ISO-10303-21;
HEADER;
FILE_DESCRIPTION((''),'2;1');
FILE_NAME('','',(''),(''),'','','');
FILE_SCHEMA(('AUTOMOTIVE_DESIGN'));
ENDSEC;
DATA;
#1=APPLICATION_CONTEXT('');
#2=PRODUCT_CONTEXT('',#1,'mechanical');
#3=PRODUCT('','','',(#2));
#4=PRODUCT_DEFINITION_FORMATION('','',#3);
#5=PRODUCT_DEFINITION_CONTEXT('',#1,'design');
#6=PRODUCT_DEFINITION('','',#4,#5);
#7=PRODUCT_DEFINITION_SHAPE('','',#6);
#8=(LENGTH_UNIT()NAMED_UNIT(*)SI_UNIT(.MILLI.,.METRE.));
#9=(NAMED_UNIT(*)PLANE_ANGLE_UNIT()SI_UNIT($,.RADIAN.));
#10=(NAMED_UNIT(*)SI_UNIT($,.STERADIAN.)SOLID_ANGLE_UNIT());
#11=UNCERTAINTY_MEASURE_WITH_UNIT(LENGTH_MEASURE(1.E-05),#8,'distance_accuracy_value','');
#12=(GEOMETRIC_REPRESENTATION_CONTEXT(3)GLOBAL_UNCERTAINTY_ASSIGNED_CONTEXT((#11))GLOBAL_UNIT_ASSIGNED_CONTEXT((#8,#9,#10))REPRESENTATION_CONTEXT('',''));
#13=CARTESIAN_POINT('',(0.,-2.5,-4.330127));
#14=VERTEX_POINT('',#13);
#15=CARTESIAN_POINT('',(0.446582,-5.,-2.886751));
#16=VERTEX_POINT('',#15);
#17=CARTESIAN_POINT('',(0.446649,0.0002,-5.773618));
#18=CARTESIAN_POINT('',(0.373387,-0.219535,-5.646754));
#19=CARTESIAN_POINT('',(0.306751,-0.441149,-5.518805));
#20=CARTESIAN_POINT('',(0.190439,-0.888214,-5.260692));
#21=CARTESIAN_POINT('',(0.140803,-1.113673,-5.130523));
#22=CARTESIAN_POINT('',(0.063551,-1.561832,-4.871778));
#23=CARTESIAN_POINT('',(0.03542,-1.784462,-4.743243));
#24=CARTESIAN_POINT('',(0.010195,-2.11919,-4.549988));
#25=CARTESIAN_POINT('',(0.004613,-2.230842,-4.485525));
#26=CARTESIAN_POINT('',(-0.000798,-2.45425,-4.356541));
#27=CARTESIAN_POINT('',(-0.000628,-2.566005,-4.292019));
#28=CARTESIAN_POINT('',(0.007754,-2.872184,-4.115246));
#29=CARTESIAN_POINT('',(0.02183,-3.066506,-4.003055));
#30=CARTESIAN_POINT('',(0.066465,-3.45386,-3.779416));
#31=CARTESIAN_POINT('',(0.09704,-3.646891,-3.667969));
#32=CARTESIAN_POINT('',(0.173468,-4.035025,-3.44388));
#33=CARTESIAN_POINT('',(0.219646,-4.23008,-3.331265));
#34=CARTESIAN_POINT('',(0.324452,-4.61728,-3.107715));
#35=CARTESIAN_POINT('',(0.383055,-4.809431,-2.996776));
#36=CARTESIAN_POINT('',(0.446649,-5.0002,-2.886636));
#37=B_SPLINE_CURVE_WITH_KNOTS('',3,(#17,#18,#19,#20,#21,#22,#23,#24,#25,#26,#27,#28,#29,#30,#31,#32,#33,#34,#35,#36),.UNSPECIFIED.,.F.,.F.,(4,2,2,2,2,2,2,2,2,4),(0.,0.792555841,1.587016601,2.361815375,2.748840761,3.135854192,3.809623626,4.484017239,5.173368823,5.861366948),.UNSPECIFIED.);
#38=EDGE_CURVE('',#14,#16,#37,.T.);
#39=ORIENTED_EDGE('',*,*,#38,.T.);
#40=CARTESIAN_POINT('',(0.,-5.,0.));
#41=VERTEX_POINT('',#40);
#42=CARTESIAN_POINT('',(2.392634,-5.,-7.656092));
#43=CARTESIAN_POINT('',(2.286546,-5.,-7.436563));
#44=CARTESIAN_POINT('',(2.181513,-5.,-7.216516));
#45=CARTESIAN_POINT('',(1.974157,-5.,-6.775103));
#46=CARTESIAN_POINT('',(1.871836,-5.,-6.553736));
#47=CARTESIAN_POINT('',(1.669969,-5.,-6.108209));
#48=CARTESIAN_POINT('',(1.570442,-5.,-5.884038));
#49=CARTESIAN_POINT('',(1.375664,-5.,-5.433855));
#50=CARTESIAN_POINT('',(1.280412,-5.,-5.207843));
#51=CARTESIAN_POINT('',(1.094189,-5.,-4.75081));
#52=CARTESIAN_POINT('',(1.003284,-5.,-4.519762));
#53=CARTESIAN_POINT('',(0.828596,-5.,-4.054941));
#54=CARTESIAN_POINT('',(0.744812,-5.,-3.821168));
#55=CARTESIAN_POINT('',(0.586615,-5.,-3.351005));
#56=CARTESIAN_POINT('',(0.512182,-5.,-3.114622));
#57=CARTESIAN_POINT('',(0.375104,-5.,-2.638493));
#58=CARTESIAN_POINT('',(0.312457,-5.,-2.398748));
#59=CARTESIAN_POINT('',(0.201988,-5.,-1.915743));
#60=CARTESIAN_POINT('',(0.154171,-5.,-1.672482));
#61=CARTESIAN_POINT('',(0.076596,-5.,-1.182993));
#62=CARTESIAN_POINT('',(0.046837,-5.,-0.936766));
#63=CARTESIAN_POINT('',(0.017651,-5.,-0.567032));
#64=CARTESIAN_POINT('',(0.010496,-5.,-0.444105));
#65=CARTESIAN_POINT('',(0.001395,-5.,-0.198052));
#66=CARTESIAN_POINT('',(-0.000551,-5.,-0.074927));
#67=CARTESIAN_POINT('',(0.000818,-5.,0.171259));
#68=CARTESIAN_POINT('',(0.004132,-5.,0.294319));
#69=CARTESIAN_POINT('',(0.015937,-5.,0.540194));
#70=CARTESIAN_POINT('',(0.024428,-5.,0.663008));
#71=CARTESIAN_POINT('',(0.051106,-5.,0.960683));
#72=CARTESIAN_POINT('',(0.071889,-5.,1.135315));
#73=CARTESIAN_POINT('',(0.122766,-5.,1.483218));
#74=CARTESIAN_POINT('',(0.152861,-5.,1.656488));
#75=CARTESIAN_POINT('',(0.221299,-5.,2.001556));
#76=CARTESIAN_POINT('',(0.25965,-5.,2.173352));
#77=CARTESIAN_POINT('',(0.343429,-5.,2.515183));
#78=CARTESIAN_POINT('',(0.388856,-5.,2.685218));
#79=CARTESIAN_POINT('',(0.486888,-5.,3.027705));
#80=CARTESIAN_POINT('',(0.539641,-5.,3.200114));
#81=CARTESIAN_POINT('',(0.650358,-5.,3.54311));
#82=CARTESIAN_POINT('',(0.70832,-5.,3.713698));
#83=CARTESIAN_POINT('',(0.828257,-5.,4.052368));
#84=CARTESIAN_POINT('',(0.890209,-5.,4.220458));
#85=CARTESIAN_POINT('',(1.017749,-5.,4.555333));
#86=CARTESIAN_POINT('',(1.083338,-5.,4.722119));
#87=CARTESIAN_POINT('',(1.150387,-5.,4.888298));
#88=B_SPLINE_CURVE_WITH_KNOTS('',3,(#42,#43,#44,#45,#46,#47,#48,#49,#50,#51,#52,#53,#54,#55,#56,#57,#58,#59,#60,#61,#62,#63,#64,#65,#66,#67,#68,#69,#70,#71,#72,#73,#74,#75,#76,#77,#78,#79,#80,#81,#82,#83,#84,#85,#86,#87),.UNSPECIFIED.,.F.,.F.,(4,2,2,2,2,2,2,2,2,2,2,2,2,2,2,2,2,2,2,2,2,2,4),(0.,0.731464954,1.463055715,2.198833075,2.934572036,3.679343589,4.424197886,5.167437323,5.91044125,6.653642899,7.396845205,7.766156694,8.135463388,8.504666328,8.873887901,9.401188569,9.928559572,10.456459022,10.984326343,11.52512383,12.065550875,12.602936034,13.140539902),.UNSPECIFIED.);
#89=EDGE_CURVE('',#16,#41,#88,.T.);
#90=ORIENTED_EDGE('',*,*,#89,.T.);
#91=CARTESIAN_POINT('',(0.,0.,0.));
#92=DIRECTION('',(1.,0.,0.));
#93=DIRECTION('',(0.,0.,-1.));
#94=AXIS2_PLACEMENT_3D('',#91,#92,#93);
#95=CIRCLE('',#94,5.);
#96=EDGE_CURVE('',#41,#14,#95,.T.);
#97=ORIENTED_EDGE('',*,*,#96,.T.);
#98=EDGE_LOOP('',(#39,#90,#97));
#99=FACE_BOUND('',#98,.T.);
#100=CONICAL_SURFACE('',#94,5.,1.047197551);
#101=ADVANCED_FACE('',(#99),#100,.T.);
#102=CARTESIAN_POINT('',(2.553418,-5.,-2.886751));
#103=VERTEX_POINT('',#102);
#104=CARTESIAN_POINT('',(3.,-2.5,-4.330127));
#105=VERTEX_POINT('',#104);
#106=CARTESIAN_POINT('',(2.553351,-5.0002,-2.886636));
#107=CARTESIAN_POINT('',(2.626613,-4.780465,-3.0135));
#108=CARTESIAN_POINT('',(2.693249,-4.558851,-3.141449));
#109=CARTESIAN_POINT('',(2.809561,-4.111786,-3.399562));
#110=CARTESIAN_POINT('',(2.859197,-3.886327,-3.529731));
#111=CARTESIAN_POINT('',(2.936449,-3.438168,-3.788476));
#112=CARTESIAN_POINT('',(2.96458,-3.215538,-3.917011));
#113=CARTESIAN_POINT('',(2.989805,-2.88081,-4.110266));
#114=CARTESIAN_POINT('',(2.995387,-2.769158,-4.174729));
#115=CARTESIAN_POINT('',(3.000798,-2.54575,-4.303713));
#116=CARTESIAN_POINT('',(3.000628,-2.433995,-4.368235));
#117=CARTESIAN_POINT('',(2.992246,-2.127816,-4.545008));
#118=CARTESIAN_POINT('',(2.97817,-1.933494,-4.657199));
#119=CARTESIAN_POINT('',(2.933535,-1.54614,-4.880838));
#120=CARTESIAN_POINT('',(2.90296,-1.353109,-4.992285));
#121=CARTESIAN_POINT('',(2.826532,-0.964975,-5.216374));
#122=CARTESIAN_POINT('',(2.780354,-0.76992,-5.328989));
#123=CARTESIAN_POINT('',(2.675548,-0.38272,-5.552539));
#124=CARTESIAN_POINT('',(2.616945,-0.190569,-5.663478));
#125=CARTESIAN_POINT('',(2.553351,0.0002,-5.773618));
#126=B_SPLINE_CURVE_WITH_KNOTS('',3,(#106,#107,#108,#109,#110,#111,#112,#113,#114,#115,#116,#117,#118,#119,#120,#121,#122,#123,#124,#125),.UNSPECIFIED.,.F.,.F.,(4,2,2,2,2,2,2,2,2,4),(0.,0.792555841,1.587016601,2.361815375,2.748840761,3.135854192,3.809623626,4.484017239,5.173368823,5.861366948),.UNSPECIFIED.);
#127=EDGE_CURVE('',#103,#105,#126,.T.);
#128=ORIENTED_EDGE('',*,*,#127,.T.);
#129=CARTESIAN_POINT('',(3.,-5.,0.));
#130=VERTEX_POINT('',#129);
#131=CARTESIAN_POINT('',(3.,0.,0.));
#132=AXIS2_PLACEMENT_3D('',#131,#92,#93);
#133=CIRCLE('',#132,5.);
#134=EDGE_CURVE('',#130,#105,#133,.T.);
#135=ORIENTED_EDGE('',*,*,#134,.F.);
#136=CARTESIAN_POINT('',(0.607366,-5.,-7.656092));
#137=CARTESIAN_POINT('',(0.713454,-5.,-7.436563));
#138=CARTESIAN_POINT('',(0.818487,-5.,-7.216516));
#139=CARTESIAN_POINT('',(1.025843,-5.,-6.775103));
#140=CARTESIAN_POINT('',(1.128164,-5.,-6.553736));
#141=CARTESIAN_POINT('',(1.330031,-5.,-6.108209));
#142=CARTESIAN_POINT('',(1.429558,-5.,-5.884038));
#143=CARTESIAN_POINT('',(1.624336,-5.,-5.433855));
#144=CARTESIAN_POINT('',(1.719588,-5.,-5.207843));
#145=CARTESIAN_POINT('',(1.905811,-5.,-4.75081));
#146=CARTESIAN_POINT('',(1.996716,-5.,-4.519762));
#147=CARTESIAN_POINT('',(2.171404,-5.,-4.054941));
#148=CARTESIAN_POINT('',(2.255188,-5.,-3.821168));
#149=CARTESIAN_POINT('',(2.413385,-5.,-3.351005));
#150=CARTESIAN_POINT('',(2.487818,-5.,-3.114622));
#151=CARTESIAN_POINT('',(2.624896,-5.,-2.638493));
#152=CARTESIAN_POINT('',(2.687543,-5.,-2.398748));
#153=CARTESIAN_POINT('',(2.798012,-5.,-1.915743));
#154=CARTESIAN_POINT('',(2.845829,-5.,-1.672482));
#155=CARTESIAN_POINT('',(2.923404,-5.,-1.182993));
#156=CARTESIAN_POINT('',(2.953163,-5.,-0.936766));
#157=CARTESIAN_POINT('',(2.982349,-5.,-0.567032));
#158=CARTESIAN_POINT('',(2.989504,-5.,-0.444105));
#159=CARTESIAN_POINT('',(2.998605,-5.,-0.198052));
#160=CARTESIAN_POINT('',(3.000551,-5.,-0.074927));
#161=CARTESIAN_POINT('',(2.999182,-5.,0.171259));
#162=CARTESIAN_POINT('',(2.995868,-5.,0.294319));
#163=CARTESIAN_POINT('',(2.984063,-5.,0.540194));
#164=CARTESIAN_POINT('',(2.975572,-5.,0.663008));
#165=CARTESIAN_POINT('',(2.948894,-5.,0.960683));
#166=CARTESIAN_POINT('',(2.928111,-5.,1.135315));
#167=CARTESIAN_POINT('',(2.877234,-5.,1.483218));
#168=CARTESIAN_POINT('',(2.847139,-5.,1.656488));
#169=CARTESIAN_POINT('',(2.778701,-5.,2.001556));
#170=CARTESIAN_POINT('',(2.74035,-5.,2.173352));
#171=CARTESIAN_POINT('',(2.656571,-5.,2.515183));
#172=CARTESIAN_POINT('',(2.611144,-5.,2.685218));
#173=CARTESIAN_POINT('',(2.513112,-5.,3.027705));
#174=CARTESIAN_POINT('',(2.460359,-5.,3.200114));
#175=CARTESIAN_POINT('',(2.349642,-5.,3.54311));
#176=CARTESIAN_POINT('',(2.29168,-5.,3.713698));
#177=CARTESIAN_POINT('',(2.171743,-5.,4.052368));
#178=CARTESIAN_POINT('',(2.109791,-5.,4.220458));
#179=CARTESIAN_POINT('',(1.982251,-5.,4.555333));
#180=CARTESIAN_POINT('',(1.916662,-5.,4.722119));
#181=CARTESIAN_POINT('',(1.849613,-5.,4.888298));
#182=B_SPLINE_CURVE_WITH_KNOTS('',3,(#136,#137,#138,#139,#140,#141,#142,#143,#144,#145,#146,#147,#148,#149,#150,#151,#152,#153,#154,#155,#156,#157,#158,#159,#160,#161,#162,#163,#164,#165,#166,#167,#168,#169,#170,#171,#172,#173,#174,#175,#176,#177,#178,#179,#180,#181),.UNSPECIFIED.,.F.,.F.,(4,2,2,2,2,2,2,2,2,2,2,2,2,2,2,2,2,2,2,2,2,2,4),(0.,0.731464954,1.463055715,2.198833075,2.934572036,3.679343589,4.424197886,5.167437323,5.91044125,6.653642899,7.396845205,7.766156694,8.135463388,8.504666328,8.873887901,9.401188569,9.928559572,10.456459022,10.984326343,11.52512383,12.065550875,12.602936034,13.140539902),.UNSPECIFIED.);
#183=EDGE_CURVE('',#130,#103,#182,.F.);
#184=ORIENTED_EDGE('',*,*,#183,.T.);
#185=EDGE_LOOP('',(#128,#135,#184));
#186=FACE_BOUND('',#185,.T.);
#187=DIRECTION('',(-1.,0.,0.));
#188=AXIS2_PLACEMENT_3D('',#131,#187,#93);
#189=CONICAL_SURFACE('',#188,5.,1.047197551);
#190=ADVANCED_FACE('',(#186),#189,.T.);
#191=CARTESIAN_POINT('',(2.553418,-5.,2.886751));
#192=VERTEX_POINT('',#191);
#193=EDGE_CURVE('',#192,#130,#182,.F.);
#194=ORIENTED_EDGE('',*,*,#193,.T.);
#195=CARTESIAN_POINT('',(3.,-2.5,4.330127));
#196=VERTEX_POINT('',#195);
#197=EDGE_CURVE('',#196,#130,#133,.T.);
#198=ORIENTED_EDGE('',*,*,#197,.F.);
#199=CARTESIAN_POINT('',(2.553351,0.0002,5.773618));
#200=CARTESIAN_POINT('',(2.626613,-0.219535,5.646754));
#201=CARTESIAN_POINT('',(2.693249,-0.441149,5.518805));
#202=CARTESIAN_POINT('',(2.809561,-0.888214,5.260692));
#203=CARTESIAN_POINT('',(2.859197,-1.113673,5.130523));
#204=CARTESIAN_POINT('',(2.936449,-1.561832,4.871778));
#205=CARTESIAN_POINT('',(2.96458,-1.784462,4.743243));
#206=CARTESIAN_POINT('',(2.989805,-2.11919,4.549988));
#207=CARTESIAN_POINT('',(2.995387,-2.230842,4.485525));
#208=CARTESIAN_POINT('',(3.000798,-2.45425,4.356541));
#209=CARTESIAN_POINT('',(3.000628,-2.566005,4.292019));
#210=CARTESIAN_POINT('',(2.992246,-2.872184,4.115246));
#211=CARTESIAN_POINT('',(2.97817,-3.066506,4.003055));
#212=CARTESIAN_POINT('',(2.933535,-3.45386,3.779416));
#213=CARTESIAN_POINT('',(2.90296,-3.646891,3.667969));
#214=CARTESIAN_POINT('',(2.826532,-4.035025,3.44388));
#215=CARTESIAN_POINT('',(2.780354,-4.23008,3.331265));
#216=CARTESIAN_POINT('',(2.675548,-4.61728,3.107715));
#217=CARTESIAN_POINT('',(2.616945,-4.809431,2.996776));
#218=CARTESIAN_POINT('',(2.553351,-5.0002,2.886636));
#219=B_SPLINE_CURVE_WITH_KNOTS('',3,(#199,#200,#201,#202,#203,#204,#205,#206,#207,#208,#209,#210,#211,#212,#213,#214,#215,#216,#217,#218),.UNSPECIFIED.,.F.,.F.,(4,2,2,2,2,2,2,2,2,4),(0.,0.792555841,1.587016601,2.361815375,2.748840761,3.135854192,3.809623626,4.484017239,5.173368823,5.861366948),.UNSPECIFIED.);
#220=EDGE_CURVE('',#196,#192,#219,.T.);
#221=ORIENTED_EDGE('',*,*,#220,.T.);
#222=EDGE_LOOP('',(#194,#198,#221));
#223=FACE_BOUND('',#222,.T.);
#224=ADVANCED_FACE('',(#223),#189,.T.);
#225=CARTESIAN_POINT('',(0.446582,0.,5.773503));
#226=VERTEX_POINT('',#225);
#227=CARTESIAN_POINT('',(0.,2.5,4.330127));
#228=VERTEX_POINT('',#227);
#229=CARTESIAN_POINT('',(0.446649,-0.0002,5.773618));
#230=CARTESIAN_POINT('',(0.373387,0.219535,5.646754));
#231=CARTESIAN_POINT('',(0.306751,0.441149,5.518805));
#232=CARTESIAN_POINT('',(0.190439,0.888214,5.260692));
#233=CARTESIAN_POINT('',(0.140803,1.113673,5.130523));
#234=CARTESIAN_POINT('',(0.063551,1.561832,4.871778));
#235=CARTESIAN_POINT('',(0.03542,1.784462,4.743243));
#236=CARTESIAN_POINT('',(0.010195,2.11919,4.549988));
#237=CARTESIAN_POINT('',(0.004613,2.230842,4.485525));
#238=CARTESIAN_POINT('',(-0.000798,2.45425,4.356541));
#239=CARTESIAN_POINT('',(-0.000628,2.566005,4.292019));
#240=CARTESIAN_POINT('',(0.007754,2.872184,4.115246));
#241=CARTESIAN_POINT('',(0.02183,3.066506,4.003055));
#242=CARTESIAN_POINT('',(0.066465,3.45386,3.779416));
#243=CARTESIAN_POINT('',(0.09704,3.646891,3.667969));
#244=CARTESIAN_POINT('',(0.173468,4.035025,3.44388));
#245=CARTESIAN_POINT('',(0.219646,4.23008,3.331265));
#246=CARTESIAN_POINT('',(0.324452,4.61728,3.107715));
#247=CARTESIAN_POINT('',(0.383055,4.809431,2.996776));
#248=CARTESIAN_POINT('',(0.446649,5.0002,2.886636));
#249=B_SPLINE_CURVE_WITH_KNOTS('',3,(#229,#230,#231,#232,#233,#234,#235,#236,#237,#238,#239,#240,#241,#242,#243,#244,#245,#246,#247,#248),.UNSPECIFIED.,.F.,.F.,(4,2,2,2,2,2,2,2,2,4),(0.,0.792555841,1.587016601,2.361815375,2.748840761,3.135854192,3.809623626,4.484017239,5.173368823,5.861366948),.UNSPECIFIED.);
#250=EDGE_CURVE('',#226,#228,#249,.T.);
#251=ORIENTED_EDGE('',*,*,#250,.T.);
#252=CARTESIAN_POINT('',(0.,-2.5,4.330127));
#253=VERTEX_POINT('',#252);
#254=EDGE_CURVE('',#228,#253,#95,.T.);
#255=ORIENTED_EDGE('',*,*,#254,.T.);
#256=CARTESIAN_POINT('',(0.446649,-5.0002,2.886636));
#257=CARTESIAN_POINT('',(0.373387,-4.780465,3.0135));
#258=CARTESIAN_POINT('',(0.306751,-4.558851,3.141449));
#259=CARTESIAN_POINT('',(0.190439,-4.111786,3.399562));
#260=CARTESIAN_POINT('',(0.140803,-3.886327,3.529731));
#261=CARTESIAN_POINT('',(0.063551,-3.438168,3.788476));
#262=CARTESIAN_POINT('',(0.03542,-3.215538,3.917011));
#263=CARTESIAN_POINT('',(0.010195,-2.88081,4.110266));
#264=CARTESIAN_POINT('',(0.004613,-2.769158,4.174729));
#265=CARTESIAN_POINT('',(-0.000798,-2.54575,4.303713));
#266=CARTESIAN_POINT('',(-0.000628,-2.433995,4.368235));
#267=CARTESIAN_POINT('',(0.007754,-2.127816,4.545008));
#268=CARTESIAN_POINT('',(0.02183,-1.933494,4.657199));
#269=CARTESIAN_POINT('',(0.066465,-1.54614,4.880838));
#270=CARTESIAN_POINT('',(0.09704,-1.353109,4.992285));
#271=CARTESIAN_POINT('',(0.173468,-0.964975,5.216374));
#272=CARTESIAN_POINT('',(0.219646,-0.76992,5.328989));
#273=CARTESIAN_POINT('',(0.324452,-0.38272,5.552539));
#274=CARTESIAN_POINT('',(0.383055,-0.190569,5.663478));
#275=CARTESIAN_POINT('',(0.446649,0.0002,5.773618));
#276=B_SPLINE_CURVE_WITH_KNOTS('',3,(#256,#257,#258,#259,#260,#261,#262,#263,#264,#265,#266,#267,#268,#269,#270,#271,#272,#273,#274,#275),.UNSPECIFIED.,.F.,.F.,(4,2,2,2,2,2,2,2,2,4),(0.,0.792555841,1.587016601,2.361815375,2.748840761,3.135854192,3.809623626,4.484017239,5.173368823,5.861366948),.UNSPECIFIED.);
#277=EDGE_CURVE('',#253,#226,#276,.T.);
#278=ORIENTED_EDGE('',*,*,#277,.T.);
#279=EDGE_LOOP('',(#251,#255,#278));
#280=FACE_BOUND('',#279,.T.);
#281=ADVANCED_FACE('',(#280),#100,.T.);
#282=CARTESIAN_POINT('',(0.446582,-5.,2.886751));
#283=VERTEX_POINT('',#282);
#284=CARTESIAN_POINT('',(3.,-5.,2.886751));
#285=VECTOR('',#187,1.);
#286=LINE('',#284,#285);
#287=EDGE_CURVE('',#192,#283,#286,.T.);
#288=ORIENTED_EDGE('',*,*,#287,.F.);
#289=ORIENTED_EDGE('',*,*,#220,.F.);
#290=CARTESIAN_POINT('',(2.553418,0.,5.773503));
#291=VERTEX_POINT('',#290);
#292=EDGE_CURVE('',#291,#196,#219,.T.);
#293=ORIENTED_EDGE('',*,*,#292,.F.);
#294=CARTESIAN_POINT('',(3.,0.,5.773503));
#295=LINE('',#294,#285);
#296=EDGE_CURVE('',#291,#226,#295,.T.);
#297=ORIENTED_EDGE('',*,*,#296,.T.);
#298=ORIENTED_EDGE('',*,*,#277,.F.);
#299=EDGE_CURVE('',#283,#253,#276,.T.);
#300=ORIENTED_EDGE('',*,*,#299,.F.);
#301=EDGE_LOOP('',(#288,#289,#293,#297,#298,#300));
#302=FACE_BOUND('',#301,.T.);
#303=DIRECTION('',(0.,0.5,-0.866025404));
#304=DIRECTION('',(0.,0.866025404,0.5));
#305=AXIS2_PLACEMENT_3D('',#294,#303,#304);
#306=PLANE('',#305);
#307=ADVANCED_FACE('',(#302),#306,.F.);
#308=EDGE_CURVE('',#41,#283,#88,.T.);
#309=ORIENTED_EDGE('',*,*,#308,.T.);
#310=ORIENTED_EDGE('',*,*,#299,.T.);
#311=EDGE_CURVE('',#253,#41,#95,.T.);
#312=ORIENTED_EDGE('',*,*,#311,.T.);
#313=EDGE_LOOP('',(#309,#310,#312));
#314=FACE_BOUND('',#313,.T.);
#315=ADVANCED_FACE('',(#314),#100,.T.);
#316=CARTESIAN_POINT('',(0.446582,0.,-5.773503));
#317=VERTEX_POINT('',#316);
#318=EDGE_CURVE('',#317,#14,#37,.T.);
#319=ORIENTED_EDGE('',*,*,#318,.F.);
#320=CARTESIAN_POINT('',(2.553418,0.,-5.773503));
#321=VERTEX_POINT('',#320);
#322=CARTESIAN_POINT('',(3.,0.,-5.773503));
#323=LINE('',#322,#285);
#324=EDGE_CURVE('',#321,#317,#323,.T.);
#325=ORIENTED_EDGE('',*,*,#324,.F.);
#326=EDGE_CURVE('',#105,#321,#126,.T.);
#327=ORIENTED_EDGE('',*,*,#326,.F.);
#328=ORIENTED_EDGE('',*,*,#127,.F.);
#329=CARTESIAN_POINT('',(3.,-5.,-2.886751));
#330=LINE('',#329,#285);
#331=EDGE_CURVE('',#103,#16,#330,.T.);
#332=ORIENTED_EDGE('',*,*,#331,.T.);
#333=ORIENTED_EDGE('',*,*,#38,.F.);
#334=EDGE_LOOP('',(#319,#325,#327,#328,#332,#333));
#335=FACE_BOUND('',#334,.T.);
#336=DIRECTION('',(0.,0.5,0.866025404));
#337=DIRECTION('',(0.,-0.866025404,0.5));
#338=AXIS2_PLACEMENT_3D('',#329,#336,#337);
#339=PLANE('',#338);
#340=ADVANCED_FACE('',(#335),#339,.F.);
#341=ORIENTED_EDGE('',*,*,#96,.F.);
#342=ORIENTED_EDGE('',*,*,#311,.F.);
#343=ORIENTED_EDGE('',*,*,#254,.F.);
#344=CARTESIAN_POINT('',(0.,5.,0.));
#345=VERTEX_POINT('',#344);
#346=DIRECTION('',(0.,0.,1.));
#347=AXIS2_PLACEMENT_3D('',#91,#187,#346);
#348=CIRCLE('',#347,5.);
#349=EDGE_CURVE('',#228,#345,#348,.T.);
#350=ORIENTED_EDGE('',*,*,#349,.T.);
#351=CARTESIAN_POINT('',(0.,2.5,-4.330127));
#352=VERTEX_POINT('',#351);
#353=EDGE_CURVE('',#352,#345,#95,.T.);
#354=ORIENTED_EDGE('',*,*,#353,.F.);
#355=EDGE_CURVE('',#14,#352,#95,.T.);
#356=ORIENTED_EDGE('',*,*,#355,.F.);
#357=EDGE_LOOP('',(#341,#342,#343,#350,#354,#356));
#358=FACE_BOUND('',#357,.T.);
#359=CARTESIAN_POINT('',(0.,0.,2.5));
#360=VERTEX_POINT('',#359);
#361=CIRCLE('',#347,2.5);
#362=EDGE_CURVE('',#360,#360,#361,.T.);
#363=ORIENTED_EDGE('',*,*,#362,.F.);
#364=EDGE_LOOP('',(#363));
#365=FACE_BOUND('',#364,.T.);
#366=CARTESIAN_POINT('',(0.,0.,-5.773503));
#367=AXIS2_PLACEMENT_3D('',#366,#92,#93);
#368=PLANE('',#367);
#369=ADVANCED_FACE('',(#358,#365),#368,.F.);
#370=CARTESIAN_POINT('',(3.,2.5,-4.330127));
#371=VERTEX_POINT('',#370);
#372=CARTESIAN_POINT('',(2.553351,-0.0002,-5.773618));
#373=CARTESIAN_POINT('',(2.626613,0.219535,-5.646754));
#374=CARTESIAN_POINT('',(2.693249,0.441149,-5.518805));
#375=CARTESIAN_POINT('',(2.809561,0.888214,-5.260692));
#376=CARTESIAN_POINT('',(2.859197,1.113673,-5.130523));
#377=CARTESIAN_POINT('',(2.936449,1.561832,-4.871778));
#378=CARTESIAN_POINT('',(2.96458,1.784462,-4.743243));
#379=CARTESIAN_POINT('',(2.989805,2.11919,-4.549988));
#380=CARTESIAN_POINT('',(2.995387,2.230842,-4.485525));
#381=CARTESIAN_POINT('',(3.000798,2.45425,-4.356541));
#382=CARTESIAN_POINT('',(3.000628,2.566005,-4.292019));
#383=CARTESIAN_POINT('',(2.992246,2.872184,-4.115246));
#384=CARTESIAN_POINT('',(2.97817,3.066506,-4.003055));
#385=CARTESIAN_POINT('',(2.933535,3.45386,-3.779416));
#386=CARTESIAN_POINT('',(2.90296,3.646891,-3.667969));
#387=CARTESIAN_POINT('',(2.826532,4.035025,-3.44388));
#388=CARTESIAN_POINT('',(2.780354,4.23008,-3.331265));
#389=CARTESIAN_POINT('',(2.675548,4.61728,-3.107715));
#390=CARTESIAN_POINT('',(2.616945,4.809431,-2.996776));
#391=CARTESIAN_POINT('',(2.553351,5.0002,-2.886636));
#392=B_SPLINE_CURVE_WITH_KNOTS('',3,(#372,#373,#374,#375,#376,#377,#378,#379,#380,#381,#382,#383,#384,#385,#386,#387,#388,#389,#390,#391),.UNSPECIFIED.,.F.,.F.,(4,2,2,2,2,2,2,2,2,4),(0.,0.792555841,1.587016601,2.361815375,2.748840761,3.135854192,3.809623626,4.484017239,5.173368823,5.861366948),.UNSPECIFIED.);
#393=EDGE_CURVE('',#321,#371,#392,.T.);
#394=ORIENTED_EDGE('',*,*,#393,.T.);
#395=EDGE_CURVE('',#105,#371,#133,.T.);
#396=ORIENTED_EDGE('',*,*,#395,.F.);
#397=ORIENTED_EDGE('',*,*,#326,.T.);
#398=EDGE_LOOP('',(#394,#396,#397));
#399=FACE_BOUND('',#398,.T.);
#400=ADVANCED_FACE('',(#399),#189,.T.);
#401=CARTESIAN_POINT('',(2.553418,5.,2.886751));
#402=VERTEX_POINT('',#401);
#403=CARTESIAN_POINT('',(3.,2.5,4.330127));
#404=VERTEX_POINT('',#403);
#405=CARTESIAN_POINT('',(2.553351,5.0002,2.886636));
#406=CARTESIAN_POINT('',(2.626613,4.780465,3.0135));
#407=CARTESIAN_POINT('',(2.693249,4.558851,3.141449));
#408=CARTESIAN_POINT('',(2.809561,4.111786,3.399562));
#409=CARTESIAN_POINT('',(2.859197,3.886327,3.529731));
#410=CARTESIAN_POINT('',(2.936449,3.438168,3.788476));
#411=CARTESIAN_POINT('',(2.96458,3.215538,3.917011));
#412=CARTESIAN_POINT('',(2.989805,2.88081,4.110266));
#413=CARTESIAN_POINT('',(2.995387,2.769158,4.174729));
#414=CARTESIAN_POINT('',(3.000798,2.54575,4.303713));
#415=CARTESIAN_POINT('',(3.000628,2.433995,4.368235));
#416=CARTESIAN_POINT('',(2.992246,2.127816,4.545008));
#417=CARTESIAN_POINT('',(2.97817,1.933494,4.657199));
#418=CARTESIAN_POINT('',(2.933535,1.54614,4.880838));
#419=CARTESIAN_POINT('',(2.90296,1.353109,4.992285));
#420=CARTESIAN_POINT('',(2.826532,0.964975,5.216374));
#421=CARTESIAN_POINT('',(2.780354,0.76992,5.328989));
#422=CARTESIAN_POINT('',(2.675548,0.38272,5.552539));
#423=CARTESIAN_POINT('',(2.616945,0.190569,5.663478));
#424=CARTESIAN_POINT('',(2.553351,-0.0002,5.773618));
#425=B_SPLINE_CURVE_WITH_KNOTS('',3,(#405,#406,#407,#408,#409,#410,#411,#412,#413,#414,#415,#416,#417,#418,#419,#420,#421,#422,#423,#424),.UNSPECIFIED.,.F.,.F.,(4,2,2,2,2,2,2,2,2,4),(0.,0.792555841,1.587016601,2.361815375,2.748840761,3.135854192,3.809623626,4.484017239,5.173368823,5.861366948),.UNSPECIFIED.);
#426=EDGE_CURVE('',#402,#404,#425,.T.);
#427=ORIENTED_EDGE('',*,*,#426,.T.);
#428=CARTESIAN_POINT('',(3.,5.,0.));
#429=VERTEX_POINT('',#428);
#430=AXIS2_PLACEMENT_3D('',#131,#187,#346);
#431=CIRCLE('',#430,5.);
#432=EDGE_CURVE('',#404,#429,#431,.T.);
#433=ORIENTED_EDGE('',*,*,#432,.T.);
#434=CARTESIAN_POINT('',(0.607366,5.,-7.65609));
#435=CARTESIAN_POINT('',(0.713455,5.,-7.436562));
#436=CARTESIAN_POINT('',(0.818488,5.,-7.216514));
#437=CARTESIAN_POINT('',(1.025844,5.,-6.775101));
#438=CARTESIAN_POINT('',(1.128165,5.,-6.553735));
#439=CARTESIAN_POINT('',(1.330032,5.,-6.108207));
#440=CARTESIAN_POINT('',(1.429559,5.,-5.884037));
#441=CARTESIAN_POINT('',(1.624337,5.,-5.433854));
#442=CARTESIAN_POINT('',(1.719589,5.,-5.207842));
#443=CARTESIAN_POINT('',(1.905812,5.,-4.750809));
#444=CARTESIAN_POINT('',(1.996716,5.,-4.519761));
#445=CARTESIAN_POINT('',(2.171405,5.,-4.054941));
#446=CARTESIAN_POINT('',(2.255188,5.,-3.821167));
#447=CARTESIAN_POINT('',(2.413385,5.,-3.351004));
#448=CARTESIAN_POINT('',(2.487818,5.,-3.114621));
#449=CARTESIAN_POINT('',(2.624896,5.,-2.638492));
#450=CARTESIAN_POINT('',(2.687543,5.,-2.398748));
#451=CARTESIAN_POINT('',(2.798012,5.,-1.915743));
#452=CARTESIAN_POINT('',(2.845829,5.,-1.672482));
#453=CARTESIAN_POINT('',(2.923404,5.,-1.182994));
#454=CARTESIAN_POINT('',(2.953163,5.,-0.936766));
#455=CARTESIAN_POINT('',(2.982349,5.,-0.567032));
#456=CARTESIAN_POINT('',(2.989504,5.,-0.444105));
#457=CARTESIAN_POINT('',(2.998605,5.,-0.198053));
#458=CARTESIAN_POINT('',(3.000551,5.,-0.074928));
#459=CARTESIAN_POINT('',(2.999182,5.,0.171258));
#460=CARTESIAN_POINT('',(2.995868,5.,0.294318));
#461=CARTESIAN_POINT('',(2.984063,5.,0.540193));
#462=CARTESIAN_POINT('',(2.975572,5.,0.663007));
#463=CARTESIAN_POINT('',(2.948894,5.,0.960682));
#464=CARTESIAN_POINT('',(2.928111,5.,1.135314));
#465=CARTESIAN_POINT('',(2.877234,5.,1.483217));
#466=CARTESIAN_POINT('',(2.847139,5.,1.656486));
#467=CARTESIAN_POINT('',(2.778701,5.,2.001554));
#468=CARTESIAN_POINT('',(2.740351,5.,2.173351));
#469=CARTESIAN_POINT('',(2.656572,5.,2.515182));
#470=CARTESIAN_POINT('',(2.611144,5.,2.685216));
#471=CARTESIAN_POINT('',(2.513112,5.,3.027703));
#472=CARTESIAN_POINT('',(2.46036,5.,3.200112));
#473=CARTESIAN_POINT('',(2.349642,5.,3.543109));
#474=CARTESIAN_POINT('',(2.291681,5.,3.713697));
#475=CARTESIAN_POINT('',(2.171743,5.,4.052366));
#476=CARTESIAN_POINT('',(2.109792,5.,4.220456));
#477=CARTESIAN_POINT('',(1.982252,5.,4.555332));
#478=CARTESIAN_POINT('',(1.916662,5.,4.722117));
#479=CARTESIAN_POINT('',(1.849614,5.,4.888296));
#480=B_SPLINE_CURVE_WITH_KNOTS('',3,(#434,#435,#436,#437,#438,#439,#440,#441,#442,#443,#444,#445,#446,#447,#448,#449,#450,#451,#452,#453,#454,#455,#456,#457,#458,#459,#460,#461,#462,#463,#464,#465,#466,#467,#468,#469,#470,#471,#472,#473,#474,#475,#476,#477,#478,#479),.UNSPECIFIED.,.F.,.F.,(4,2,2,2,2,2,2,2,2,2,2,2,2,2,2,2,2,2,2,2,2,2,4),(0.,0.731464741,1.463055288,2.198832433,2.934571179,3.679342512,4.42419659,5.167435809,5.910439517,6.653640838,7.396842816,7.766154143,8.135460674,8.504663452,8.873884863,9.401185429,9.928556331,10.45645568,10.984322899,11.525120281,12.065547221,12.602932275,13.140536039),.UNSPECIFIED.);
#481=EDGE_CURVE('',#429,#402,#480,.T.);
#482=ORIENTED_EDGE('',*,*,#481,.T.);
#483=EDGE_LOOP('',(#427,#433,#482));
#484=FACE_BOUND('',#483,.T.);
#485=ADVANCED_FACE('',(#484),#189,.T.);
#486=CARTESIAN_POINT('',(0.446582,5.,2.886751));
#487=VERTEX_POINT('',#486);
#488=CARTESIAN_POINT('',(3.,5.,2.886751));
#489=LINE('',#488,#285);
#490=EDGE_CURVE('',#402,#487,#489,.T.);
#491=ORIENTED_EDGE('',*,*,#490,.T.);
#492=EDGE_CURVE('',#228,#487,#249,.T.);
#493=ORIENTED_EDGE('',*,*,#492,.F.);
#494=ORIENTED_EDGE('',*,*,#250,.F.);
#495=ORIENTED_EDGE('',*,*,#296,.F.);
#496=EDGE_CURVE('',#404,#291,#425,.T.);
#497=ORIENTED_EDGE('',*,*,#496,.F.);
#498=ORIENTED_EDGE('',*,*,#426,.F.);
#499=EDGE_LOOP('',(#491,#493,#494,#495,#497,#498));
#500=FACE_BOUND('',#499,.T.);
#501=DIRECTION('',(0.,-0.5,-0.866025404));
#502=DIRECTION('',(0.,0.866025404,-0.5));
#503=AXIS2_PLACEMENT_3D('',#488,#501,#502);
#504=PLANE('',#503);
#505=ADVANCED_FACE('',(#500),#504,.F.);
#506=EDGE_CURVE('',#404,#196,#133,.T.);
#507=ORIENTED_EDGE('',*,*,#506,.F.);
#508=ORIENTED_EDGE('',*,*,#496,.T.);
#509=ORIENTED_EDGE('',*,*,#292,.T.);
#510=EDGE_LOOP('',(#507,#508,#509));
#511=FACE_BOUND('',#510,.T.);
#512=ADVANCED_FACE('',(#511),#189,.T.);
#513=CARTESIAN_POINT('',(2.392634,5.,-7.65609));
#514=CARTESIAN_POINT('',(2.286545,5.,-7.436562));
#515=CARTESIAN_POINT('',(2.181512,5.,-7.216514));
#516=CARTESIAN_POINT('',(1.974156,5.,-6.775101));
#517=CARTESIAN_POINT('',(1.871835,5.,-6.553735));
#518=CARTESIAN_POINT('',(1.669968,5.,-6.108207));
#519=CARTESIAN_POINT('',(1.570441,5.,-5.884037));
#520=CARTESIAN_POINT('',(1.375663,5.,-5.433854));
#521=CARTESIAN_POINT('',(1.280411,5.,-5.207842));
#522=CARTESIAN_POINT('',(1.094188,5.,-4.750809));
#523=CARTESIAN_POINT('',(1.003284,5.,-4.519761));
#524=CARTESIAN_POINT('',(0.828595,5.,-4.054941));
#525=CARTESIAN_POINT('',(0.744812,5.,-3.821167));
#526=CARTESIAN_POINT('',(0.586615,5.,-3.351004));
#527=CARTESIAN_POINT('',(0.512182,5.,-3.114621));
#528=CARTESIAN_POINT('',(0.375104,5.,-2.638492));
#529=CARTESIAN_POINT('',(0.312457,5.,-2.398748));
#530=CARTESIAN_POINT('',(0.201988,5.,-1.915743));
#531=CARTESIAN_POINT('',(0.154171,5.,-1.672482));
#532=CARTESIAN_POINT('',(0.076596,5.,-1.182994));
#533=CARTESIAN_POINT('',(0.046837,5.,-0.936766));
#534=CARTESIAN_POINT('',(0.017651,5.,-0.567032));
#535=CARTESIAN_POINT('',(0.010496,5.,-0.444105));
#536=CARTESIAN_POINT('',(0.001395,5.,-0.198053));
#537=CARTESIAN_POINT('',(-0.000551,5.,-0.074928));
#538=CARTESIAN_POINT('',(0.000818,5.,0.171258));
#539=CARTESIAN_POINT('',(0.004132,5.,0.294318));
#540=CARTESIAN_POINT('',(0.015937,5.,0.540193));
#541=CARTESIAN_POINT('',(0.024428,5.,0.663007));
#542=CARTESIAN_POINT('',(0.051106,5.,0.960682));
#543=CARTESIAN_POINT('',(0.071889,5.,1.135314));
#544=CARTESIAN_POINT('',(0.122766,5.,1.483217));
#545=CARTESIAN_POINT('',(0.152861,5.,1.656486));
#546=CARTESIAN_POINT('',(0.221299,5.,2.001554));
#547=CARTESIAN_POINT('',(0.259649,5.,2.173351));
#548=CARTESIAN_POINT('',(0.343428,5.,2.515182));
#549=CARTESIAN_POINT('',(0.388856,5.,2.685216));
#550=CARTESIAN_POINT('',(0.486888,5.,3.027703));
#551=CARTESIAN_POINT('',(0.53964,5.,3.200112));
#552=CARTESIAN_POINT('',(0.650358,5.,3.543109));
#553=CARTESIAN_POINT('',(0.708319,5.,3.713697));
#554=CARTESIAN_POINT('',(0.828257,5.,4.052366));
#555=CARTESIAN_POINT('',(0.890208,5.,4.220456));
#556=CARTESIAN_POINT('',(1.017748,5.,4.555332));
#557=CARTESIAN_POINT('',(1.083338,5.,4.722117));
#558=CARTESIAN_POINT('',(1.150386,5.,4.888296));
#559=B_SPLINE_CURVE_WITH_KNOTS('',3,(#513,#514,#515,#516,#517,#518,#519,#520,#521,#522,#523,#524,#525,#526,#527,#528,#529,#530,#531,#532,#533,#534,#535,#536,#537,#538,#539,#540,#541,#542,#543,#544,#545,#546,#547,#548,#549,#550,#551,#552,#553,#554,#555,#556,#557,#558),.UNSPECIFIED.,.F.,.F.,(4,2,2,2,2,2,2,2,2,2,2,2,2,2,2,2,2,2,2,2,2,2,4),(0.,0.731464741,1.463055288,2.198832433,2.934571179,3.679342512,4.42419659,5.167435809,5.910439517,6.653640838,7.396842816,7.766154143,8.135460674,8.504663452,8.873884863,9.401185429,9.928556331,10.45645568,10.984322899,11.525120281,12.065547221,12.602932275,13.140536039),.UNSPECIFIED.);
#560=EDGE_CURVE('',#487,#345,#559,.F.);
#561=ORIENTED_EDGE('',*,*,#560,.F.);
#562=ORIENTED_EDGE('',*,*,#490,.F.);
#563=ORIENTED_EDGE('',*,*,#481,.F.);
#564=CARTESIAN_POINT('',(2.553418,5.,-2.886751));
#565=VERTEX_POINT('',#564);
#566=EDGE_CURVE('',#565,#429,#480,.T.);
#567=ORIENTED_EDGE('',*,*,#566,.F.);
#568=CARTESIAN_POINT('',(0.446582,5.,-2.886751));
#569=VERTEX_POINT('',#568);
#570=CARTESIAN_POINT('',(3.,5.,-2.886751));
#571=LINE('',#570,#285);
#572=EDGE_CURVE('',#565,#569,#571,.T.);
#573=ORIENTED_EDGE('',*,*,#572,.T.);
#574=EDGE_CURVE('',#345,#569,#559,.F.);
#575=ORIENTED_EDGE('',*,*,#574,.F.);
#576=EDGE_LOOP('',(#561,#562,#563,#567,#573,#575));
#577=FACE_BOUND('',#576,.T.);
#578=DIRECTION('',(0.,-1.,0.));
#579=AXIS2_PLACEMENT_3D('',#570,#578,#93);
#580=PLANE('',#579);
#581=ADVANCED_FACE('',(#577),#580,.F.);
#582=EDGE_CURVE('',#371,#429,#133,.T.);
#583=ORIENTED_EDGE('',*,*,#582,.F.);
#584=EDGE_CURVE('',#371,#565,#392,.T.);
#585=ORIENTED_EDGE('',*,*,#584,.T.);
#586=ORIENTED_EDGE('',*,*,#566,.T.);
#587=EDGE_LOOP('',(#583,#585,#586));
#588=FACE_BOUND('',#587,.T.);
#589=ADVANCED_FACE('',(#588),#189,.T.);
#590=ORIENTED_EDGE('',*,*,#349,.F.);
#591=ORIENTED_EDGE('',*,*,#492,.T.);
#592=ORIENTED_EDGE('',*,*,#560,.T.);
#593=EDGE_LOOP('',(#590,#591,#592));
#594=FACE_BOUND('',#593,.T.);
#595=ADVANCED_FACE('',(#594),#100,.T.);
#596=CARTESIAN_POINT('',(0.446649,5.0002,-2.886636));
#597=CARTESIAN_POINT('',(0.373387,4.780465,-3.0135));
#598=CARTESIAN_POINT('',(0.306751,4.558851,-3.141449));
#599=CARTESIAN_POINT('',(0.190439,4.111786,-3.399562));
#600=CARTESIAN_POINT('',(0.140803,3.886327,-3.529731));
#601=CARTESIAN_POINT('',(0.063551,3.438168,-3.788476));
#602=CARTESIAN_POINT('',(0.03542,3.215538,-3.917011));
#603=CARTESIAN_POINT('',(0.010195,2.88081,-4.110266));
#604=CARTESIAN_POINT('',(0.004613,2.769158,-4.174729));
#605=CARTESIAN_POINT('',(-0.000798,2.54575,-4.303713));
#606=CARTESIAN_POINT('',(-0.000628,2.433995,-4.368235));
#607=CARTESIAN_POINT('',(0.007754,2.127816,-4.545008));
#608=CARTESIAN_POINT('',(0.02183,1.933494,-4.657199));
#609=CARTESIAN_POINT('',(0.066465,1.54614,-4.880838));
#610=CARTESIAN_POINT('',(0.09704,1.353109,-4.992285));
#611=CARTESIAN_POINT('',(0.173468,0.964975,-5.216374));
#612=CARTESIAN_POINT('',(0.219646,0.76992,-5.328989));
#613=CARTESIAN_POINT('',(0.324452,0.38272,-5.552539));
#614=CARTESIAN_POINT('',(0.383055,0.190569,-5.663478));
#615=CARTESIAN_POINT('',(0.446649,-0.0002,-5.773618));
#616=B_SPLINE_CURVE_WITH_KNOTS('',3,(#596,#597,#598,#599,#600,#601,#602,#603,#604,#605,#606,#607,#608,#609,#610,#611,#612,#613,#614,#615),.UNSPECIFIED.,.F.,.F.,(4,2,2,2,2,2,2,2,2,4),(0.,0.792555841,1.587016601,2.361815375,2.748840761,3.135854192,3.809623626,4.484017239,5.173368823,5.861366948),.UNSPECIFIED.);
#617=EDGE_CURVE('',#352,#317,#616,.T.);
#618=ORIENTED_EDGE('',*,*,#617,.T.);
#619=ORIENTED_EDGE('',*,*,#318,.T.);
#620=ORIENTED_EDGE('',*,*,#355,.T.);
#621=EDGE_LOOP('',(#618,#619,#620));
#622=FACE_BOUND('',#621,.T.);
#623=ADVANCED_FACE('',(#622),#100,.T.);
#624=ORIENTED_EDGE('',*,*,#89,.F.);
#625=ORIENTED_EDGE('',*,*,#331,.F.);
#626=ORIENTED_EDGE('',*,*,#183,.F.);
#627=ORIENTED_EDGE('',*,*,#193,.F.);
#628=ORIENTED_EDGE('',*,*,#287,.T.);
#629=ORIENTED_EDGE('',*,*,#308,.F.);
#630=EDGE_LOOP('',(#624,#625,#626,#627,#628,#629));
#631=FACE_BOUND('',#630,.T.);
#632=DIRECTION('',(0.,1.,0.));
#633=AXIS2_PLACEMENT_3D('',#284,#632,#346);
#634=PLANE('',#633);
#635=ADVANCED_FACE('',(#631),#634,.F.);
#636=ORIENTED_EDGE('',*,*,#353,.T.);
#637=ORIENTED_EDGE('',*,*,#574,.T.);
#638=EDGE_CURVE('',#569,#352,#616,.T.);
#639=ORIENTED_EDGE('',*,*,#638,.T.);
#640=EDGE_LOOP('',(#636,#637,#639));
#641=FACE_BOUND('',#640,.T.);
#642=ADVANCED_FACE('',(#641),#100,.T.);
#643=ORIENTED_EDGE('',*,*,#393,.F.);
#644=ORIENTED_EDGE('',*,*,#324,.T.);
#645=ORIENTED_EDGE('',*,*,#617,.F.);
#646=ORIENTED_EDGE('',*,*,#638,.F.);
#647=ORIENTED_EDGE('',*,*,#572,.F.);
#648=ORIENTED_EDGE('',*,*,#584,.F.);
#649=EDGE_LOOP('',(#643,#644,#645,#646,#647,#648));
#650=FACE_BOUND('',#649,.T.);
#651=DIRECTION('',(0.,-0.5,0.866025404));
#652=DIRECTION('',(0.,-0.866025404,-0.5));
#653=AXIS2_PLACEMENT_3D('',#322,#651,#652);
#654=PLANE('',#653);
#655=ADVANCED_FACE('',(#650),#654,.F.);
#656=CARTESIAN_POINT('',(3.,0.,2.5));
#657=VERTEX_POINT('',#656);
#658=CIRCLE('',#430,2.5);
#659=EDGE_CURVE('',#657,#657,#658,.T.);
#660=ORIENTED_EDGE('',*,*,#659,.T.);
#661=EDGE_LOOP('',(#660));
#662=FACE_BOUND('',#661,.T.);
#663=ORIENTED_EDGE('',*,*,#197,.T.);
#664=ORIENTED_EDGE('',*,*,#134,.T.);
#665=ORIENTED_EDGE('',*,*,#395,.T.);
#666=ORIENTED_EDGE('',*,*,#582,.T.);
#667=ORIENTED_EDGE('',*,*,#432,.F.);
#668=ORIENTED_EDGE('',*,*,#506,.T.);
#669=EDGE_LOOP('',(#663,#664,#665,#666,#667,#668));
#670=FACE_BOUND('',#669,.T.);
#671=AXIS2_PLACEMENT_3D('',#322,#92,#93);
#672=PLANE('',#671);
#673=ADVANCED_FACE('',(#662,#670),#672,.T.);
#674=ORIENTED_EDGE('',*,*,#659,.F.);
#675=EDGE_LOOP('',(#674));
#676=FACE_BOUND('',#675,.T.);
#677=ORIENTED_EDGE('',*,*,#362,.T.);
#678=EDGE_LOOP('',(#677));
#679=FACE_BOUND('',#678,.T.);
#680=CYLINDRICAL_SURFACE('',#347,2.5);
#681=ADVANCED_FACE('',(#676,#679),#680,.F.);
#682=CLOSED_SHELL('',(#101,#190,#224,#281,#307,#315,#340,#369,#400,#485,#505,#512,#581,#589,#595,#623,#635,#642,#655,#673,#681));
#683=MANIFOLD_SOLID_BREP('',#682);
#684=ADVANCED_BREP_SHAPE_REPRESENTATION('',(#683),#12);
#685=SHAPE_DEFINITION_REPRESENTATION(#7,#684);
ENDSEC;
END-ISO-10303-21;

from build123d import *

# Parameters (mm, degrees)
BOSS_EXTRUDE1_DEPTH = 3
TAPPED_HOLE1_D      = 5


with BuildPart() as part:
    # Sketch1 → Boss-Extrude1 (new body)
    with BuildSketch(Plane(origin=(0, 0, 0), x_dir=(0, 0, -1), z_dir=(1, 0, 0))):
        Polygon((5.773502692, 0), (2.886751346, 5), (-2.886751346, 5), (-5.773502692, 0), (-2.886751346, -5), (2.886751346, -5), align=None)
    extrude(amount=BOSS_EXTRUDE1_DEPTH)

    # Tapped Hole1 (through all)
    with Locations(Plane.ZY):
        with Locations((0, 0)):
            Hole(TAPPED_HOLE1_D / 2)

    # Sketch6 → Cut-Revolve1 (revolve, cut)
    with BuildSketch(Plane(origin=(0, 0, 0), x_dir=(1, 0, 0), z_dir=(0, 1, 0))):
        Polygon((0, 5), (0.446581987, 5.773502692), (0, 5.773502692), align=None)
    cut_revolve1 = revolve(axis=Axis((0, 0, 0), (1, 0, 0)), mode=Mode.SUBTRACT)

    # Mirror1: Cut-Revolve1 across plane
    add(cut_revolve1.mirror(Plane.ZY.offset(-1.5)), mode=Mode.SUBTRACT)


solid = part.part
